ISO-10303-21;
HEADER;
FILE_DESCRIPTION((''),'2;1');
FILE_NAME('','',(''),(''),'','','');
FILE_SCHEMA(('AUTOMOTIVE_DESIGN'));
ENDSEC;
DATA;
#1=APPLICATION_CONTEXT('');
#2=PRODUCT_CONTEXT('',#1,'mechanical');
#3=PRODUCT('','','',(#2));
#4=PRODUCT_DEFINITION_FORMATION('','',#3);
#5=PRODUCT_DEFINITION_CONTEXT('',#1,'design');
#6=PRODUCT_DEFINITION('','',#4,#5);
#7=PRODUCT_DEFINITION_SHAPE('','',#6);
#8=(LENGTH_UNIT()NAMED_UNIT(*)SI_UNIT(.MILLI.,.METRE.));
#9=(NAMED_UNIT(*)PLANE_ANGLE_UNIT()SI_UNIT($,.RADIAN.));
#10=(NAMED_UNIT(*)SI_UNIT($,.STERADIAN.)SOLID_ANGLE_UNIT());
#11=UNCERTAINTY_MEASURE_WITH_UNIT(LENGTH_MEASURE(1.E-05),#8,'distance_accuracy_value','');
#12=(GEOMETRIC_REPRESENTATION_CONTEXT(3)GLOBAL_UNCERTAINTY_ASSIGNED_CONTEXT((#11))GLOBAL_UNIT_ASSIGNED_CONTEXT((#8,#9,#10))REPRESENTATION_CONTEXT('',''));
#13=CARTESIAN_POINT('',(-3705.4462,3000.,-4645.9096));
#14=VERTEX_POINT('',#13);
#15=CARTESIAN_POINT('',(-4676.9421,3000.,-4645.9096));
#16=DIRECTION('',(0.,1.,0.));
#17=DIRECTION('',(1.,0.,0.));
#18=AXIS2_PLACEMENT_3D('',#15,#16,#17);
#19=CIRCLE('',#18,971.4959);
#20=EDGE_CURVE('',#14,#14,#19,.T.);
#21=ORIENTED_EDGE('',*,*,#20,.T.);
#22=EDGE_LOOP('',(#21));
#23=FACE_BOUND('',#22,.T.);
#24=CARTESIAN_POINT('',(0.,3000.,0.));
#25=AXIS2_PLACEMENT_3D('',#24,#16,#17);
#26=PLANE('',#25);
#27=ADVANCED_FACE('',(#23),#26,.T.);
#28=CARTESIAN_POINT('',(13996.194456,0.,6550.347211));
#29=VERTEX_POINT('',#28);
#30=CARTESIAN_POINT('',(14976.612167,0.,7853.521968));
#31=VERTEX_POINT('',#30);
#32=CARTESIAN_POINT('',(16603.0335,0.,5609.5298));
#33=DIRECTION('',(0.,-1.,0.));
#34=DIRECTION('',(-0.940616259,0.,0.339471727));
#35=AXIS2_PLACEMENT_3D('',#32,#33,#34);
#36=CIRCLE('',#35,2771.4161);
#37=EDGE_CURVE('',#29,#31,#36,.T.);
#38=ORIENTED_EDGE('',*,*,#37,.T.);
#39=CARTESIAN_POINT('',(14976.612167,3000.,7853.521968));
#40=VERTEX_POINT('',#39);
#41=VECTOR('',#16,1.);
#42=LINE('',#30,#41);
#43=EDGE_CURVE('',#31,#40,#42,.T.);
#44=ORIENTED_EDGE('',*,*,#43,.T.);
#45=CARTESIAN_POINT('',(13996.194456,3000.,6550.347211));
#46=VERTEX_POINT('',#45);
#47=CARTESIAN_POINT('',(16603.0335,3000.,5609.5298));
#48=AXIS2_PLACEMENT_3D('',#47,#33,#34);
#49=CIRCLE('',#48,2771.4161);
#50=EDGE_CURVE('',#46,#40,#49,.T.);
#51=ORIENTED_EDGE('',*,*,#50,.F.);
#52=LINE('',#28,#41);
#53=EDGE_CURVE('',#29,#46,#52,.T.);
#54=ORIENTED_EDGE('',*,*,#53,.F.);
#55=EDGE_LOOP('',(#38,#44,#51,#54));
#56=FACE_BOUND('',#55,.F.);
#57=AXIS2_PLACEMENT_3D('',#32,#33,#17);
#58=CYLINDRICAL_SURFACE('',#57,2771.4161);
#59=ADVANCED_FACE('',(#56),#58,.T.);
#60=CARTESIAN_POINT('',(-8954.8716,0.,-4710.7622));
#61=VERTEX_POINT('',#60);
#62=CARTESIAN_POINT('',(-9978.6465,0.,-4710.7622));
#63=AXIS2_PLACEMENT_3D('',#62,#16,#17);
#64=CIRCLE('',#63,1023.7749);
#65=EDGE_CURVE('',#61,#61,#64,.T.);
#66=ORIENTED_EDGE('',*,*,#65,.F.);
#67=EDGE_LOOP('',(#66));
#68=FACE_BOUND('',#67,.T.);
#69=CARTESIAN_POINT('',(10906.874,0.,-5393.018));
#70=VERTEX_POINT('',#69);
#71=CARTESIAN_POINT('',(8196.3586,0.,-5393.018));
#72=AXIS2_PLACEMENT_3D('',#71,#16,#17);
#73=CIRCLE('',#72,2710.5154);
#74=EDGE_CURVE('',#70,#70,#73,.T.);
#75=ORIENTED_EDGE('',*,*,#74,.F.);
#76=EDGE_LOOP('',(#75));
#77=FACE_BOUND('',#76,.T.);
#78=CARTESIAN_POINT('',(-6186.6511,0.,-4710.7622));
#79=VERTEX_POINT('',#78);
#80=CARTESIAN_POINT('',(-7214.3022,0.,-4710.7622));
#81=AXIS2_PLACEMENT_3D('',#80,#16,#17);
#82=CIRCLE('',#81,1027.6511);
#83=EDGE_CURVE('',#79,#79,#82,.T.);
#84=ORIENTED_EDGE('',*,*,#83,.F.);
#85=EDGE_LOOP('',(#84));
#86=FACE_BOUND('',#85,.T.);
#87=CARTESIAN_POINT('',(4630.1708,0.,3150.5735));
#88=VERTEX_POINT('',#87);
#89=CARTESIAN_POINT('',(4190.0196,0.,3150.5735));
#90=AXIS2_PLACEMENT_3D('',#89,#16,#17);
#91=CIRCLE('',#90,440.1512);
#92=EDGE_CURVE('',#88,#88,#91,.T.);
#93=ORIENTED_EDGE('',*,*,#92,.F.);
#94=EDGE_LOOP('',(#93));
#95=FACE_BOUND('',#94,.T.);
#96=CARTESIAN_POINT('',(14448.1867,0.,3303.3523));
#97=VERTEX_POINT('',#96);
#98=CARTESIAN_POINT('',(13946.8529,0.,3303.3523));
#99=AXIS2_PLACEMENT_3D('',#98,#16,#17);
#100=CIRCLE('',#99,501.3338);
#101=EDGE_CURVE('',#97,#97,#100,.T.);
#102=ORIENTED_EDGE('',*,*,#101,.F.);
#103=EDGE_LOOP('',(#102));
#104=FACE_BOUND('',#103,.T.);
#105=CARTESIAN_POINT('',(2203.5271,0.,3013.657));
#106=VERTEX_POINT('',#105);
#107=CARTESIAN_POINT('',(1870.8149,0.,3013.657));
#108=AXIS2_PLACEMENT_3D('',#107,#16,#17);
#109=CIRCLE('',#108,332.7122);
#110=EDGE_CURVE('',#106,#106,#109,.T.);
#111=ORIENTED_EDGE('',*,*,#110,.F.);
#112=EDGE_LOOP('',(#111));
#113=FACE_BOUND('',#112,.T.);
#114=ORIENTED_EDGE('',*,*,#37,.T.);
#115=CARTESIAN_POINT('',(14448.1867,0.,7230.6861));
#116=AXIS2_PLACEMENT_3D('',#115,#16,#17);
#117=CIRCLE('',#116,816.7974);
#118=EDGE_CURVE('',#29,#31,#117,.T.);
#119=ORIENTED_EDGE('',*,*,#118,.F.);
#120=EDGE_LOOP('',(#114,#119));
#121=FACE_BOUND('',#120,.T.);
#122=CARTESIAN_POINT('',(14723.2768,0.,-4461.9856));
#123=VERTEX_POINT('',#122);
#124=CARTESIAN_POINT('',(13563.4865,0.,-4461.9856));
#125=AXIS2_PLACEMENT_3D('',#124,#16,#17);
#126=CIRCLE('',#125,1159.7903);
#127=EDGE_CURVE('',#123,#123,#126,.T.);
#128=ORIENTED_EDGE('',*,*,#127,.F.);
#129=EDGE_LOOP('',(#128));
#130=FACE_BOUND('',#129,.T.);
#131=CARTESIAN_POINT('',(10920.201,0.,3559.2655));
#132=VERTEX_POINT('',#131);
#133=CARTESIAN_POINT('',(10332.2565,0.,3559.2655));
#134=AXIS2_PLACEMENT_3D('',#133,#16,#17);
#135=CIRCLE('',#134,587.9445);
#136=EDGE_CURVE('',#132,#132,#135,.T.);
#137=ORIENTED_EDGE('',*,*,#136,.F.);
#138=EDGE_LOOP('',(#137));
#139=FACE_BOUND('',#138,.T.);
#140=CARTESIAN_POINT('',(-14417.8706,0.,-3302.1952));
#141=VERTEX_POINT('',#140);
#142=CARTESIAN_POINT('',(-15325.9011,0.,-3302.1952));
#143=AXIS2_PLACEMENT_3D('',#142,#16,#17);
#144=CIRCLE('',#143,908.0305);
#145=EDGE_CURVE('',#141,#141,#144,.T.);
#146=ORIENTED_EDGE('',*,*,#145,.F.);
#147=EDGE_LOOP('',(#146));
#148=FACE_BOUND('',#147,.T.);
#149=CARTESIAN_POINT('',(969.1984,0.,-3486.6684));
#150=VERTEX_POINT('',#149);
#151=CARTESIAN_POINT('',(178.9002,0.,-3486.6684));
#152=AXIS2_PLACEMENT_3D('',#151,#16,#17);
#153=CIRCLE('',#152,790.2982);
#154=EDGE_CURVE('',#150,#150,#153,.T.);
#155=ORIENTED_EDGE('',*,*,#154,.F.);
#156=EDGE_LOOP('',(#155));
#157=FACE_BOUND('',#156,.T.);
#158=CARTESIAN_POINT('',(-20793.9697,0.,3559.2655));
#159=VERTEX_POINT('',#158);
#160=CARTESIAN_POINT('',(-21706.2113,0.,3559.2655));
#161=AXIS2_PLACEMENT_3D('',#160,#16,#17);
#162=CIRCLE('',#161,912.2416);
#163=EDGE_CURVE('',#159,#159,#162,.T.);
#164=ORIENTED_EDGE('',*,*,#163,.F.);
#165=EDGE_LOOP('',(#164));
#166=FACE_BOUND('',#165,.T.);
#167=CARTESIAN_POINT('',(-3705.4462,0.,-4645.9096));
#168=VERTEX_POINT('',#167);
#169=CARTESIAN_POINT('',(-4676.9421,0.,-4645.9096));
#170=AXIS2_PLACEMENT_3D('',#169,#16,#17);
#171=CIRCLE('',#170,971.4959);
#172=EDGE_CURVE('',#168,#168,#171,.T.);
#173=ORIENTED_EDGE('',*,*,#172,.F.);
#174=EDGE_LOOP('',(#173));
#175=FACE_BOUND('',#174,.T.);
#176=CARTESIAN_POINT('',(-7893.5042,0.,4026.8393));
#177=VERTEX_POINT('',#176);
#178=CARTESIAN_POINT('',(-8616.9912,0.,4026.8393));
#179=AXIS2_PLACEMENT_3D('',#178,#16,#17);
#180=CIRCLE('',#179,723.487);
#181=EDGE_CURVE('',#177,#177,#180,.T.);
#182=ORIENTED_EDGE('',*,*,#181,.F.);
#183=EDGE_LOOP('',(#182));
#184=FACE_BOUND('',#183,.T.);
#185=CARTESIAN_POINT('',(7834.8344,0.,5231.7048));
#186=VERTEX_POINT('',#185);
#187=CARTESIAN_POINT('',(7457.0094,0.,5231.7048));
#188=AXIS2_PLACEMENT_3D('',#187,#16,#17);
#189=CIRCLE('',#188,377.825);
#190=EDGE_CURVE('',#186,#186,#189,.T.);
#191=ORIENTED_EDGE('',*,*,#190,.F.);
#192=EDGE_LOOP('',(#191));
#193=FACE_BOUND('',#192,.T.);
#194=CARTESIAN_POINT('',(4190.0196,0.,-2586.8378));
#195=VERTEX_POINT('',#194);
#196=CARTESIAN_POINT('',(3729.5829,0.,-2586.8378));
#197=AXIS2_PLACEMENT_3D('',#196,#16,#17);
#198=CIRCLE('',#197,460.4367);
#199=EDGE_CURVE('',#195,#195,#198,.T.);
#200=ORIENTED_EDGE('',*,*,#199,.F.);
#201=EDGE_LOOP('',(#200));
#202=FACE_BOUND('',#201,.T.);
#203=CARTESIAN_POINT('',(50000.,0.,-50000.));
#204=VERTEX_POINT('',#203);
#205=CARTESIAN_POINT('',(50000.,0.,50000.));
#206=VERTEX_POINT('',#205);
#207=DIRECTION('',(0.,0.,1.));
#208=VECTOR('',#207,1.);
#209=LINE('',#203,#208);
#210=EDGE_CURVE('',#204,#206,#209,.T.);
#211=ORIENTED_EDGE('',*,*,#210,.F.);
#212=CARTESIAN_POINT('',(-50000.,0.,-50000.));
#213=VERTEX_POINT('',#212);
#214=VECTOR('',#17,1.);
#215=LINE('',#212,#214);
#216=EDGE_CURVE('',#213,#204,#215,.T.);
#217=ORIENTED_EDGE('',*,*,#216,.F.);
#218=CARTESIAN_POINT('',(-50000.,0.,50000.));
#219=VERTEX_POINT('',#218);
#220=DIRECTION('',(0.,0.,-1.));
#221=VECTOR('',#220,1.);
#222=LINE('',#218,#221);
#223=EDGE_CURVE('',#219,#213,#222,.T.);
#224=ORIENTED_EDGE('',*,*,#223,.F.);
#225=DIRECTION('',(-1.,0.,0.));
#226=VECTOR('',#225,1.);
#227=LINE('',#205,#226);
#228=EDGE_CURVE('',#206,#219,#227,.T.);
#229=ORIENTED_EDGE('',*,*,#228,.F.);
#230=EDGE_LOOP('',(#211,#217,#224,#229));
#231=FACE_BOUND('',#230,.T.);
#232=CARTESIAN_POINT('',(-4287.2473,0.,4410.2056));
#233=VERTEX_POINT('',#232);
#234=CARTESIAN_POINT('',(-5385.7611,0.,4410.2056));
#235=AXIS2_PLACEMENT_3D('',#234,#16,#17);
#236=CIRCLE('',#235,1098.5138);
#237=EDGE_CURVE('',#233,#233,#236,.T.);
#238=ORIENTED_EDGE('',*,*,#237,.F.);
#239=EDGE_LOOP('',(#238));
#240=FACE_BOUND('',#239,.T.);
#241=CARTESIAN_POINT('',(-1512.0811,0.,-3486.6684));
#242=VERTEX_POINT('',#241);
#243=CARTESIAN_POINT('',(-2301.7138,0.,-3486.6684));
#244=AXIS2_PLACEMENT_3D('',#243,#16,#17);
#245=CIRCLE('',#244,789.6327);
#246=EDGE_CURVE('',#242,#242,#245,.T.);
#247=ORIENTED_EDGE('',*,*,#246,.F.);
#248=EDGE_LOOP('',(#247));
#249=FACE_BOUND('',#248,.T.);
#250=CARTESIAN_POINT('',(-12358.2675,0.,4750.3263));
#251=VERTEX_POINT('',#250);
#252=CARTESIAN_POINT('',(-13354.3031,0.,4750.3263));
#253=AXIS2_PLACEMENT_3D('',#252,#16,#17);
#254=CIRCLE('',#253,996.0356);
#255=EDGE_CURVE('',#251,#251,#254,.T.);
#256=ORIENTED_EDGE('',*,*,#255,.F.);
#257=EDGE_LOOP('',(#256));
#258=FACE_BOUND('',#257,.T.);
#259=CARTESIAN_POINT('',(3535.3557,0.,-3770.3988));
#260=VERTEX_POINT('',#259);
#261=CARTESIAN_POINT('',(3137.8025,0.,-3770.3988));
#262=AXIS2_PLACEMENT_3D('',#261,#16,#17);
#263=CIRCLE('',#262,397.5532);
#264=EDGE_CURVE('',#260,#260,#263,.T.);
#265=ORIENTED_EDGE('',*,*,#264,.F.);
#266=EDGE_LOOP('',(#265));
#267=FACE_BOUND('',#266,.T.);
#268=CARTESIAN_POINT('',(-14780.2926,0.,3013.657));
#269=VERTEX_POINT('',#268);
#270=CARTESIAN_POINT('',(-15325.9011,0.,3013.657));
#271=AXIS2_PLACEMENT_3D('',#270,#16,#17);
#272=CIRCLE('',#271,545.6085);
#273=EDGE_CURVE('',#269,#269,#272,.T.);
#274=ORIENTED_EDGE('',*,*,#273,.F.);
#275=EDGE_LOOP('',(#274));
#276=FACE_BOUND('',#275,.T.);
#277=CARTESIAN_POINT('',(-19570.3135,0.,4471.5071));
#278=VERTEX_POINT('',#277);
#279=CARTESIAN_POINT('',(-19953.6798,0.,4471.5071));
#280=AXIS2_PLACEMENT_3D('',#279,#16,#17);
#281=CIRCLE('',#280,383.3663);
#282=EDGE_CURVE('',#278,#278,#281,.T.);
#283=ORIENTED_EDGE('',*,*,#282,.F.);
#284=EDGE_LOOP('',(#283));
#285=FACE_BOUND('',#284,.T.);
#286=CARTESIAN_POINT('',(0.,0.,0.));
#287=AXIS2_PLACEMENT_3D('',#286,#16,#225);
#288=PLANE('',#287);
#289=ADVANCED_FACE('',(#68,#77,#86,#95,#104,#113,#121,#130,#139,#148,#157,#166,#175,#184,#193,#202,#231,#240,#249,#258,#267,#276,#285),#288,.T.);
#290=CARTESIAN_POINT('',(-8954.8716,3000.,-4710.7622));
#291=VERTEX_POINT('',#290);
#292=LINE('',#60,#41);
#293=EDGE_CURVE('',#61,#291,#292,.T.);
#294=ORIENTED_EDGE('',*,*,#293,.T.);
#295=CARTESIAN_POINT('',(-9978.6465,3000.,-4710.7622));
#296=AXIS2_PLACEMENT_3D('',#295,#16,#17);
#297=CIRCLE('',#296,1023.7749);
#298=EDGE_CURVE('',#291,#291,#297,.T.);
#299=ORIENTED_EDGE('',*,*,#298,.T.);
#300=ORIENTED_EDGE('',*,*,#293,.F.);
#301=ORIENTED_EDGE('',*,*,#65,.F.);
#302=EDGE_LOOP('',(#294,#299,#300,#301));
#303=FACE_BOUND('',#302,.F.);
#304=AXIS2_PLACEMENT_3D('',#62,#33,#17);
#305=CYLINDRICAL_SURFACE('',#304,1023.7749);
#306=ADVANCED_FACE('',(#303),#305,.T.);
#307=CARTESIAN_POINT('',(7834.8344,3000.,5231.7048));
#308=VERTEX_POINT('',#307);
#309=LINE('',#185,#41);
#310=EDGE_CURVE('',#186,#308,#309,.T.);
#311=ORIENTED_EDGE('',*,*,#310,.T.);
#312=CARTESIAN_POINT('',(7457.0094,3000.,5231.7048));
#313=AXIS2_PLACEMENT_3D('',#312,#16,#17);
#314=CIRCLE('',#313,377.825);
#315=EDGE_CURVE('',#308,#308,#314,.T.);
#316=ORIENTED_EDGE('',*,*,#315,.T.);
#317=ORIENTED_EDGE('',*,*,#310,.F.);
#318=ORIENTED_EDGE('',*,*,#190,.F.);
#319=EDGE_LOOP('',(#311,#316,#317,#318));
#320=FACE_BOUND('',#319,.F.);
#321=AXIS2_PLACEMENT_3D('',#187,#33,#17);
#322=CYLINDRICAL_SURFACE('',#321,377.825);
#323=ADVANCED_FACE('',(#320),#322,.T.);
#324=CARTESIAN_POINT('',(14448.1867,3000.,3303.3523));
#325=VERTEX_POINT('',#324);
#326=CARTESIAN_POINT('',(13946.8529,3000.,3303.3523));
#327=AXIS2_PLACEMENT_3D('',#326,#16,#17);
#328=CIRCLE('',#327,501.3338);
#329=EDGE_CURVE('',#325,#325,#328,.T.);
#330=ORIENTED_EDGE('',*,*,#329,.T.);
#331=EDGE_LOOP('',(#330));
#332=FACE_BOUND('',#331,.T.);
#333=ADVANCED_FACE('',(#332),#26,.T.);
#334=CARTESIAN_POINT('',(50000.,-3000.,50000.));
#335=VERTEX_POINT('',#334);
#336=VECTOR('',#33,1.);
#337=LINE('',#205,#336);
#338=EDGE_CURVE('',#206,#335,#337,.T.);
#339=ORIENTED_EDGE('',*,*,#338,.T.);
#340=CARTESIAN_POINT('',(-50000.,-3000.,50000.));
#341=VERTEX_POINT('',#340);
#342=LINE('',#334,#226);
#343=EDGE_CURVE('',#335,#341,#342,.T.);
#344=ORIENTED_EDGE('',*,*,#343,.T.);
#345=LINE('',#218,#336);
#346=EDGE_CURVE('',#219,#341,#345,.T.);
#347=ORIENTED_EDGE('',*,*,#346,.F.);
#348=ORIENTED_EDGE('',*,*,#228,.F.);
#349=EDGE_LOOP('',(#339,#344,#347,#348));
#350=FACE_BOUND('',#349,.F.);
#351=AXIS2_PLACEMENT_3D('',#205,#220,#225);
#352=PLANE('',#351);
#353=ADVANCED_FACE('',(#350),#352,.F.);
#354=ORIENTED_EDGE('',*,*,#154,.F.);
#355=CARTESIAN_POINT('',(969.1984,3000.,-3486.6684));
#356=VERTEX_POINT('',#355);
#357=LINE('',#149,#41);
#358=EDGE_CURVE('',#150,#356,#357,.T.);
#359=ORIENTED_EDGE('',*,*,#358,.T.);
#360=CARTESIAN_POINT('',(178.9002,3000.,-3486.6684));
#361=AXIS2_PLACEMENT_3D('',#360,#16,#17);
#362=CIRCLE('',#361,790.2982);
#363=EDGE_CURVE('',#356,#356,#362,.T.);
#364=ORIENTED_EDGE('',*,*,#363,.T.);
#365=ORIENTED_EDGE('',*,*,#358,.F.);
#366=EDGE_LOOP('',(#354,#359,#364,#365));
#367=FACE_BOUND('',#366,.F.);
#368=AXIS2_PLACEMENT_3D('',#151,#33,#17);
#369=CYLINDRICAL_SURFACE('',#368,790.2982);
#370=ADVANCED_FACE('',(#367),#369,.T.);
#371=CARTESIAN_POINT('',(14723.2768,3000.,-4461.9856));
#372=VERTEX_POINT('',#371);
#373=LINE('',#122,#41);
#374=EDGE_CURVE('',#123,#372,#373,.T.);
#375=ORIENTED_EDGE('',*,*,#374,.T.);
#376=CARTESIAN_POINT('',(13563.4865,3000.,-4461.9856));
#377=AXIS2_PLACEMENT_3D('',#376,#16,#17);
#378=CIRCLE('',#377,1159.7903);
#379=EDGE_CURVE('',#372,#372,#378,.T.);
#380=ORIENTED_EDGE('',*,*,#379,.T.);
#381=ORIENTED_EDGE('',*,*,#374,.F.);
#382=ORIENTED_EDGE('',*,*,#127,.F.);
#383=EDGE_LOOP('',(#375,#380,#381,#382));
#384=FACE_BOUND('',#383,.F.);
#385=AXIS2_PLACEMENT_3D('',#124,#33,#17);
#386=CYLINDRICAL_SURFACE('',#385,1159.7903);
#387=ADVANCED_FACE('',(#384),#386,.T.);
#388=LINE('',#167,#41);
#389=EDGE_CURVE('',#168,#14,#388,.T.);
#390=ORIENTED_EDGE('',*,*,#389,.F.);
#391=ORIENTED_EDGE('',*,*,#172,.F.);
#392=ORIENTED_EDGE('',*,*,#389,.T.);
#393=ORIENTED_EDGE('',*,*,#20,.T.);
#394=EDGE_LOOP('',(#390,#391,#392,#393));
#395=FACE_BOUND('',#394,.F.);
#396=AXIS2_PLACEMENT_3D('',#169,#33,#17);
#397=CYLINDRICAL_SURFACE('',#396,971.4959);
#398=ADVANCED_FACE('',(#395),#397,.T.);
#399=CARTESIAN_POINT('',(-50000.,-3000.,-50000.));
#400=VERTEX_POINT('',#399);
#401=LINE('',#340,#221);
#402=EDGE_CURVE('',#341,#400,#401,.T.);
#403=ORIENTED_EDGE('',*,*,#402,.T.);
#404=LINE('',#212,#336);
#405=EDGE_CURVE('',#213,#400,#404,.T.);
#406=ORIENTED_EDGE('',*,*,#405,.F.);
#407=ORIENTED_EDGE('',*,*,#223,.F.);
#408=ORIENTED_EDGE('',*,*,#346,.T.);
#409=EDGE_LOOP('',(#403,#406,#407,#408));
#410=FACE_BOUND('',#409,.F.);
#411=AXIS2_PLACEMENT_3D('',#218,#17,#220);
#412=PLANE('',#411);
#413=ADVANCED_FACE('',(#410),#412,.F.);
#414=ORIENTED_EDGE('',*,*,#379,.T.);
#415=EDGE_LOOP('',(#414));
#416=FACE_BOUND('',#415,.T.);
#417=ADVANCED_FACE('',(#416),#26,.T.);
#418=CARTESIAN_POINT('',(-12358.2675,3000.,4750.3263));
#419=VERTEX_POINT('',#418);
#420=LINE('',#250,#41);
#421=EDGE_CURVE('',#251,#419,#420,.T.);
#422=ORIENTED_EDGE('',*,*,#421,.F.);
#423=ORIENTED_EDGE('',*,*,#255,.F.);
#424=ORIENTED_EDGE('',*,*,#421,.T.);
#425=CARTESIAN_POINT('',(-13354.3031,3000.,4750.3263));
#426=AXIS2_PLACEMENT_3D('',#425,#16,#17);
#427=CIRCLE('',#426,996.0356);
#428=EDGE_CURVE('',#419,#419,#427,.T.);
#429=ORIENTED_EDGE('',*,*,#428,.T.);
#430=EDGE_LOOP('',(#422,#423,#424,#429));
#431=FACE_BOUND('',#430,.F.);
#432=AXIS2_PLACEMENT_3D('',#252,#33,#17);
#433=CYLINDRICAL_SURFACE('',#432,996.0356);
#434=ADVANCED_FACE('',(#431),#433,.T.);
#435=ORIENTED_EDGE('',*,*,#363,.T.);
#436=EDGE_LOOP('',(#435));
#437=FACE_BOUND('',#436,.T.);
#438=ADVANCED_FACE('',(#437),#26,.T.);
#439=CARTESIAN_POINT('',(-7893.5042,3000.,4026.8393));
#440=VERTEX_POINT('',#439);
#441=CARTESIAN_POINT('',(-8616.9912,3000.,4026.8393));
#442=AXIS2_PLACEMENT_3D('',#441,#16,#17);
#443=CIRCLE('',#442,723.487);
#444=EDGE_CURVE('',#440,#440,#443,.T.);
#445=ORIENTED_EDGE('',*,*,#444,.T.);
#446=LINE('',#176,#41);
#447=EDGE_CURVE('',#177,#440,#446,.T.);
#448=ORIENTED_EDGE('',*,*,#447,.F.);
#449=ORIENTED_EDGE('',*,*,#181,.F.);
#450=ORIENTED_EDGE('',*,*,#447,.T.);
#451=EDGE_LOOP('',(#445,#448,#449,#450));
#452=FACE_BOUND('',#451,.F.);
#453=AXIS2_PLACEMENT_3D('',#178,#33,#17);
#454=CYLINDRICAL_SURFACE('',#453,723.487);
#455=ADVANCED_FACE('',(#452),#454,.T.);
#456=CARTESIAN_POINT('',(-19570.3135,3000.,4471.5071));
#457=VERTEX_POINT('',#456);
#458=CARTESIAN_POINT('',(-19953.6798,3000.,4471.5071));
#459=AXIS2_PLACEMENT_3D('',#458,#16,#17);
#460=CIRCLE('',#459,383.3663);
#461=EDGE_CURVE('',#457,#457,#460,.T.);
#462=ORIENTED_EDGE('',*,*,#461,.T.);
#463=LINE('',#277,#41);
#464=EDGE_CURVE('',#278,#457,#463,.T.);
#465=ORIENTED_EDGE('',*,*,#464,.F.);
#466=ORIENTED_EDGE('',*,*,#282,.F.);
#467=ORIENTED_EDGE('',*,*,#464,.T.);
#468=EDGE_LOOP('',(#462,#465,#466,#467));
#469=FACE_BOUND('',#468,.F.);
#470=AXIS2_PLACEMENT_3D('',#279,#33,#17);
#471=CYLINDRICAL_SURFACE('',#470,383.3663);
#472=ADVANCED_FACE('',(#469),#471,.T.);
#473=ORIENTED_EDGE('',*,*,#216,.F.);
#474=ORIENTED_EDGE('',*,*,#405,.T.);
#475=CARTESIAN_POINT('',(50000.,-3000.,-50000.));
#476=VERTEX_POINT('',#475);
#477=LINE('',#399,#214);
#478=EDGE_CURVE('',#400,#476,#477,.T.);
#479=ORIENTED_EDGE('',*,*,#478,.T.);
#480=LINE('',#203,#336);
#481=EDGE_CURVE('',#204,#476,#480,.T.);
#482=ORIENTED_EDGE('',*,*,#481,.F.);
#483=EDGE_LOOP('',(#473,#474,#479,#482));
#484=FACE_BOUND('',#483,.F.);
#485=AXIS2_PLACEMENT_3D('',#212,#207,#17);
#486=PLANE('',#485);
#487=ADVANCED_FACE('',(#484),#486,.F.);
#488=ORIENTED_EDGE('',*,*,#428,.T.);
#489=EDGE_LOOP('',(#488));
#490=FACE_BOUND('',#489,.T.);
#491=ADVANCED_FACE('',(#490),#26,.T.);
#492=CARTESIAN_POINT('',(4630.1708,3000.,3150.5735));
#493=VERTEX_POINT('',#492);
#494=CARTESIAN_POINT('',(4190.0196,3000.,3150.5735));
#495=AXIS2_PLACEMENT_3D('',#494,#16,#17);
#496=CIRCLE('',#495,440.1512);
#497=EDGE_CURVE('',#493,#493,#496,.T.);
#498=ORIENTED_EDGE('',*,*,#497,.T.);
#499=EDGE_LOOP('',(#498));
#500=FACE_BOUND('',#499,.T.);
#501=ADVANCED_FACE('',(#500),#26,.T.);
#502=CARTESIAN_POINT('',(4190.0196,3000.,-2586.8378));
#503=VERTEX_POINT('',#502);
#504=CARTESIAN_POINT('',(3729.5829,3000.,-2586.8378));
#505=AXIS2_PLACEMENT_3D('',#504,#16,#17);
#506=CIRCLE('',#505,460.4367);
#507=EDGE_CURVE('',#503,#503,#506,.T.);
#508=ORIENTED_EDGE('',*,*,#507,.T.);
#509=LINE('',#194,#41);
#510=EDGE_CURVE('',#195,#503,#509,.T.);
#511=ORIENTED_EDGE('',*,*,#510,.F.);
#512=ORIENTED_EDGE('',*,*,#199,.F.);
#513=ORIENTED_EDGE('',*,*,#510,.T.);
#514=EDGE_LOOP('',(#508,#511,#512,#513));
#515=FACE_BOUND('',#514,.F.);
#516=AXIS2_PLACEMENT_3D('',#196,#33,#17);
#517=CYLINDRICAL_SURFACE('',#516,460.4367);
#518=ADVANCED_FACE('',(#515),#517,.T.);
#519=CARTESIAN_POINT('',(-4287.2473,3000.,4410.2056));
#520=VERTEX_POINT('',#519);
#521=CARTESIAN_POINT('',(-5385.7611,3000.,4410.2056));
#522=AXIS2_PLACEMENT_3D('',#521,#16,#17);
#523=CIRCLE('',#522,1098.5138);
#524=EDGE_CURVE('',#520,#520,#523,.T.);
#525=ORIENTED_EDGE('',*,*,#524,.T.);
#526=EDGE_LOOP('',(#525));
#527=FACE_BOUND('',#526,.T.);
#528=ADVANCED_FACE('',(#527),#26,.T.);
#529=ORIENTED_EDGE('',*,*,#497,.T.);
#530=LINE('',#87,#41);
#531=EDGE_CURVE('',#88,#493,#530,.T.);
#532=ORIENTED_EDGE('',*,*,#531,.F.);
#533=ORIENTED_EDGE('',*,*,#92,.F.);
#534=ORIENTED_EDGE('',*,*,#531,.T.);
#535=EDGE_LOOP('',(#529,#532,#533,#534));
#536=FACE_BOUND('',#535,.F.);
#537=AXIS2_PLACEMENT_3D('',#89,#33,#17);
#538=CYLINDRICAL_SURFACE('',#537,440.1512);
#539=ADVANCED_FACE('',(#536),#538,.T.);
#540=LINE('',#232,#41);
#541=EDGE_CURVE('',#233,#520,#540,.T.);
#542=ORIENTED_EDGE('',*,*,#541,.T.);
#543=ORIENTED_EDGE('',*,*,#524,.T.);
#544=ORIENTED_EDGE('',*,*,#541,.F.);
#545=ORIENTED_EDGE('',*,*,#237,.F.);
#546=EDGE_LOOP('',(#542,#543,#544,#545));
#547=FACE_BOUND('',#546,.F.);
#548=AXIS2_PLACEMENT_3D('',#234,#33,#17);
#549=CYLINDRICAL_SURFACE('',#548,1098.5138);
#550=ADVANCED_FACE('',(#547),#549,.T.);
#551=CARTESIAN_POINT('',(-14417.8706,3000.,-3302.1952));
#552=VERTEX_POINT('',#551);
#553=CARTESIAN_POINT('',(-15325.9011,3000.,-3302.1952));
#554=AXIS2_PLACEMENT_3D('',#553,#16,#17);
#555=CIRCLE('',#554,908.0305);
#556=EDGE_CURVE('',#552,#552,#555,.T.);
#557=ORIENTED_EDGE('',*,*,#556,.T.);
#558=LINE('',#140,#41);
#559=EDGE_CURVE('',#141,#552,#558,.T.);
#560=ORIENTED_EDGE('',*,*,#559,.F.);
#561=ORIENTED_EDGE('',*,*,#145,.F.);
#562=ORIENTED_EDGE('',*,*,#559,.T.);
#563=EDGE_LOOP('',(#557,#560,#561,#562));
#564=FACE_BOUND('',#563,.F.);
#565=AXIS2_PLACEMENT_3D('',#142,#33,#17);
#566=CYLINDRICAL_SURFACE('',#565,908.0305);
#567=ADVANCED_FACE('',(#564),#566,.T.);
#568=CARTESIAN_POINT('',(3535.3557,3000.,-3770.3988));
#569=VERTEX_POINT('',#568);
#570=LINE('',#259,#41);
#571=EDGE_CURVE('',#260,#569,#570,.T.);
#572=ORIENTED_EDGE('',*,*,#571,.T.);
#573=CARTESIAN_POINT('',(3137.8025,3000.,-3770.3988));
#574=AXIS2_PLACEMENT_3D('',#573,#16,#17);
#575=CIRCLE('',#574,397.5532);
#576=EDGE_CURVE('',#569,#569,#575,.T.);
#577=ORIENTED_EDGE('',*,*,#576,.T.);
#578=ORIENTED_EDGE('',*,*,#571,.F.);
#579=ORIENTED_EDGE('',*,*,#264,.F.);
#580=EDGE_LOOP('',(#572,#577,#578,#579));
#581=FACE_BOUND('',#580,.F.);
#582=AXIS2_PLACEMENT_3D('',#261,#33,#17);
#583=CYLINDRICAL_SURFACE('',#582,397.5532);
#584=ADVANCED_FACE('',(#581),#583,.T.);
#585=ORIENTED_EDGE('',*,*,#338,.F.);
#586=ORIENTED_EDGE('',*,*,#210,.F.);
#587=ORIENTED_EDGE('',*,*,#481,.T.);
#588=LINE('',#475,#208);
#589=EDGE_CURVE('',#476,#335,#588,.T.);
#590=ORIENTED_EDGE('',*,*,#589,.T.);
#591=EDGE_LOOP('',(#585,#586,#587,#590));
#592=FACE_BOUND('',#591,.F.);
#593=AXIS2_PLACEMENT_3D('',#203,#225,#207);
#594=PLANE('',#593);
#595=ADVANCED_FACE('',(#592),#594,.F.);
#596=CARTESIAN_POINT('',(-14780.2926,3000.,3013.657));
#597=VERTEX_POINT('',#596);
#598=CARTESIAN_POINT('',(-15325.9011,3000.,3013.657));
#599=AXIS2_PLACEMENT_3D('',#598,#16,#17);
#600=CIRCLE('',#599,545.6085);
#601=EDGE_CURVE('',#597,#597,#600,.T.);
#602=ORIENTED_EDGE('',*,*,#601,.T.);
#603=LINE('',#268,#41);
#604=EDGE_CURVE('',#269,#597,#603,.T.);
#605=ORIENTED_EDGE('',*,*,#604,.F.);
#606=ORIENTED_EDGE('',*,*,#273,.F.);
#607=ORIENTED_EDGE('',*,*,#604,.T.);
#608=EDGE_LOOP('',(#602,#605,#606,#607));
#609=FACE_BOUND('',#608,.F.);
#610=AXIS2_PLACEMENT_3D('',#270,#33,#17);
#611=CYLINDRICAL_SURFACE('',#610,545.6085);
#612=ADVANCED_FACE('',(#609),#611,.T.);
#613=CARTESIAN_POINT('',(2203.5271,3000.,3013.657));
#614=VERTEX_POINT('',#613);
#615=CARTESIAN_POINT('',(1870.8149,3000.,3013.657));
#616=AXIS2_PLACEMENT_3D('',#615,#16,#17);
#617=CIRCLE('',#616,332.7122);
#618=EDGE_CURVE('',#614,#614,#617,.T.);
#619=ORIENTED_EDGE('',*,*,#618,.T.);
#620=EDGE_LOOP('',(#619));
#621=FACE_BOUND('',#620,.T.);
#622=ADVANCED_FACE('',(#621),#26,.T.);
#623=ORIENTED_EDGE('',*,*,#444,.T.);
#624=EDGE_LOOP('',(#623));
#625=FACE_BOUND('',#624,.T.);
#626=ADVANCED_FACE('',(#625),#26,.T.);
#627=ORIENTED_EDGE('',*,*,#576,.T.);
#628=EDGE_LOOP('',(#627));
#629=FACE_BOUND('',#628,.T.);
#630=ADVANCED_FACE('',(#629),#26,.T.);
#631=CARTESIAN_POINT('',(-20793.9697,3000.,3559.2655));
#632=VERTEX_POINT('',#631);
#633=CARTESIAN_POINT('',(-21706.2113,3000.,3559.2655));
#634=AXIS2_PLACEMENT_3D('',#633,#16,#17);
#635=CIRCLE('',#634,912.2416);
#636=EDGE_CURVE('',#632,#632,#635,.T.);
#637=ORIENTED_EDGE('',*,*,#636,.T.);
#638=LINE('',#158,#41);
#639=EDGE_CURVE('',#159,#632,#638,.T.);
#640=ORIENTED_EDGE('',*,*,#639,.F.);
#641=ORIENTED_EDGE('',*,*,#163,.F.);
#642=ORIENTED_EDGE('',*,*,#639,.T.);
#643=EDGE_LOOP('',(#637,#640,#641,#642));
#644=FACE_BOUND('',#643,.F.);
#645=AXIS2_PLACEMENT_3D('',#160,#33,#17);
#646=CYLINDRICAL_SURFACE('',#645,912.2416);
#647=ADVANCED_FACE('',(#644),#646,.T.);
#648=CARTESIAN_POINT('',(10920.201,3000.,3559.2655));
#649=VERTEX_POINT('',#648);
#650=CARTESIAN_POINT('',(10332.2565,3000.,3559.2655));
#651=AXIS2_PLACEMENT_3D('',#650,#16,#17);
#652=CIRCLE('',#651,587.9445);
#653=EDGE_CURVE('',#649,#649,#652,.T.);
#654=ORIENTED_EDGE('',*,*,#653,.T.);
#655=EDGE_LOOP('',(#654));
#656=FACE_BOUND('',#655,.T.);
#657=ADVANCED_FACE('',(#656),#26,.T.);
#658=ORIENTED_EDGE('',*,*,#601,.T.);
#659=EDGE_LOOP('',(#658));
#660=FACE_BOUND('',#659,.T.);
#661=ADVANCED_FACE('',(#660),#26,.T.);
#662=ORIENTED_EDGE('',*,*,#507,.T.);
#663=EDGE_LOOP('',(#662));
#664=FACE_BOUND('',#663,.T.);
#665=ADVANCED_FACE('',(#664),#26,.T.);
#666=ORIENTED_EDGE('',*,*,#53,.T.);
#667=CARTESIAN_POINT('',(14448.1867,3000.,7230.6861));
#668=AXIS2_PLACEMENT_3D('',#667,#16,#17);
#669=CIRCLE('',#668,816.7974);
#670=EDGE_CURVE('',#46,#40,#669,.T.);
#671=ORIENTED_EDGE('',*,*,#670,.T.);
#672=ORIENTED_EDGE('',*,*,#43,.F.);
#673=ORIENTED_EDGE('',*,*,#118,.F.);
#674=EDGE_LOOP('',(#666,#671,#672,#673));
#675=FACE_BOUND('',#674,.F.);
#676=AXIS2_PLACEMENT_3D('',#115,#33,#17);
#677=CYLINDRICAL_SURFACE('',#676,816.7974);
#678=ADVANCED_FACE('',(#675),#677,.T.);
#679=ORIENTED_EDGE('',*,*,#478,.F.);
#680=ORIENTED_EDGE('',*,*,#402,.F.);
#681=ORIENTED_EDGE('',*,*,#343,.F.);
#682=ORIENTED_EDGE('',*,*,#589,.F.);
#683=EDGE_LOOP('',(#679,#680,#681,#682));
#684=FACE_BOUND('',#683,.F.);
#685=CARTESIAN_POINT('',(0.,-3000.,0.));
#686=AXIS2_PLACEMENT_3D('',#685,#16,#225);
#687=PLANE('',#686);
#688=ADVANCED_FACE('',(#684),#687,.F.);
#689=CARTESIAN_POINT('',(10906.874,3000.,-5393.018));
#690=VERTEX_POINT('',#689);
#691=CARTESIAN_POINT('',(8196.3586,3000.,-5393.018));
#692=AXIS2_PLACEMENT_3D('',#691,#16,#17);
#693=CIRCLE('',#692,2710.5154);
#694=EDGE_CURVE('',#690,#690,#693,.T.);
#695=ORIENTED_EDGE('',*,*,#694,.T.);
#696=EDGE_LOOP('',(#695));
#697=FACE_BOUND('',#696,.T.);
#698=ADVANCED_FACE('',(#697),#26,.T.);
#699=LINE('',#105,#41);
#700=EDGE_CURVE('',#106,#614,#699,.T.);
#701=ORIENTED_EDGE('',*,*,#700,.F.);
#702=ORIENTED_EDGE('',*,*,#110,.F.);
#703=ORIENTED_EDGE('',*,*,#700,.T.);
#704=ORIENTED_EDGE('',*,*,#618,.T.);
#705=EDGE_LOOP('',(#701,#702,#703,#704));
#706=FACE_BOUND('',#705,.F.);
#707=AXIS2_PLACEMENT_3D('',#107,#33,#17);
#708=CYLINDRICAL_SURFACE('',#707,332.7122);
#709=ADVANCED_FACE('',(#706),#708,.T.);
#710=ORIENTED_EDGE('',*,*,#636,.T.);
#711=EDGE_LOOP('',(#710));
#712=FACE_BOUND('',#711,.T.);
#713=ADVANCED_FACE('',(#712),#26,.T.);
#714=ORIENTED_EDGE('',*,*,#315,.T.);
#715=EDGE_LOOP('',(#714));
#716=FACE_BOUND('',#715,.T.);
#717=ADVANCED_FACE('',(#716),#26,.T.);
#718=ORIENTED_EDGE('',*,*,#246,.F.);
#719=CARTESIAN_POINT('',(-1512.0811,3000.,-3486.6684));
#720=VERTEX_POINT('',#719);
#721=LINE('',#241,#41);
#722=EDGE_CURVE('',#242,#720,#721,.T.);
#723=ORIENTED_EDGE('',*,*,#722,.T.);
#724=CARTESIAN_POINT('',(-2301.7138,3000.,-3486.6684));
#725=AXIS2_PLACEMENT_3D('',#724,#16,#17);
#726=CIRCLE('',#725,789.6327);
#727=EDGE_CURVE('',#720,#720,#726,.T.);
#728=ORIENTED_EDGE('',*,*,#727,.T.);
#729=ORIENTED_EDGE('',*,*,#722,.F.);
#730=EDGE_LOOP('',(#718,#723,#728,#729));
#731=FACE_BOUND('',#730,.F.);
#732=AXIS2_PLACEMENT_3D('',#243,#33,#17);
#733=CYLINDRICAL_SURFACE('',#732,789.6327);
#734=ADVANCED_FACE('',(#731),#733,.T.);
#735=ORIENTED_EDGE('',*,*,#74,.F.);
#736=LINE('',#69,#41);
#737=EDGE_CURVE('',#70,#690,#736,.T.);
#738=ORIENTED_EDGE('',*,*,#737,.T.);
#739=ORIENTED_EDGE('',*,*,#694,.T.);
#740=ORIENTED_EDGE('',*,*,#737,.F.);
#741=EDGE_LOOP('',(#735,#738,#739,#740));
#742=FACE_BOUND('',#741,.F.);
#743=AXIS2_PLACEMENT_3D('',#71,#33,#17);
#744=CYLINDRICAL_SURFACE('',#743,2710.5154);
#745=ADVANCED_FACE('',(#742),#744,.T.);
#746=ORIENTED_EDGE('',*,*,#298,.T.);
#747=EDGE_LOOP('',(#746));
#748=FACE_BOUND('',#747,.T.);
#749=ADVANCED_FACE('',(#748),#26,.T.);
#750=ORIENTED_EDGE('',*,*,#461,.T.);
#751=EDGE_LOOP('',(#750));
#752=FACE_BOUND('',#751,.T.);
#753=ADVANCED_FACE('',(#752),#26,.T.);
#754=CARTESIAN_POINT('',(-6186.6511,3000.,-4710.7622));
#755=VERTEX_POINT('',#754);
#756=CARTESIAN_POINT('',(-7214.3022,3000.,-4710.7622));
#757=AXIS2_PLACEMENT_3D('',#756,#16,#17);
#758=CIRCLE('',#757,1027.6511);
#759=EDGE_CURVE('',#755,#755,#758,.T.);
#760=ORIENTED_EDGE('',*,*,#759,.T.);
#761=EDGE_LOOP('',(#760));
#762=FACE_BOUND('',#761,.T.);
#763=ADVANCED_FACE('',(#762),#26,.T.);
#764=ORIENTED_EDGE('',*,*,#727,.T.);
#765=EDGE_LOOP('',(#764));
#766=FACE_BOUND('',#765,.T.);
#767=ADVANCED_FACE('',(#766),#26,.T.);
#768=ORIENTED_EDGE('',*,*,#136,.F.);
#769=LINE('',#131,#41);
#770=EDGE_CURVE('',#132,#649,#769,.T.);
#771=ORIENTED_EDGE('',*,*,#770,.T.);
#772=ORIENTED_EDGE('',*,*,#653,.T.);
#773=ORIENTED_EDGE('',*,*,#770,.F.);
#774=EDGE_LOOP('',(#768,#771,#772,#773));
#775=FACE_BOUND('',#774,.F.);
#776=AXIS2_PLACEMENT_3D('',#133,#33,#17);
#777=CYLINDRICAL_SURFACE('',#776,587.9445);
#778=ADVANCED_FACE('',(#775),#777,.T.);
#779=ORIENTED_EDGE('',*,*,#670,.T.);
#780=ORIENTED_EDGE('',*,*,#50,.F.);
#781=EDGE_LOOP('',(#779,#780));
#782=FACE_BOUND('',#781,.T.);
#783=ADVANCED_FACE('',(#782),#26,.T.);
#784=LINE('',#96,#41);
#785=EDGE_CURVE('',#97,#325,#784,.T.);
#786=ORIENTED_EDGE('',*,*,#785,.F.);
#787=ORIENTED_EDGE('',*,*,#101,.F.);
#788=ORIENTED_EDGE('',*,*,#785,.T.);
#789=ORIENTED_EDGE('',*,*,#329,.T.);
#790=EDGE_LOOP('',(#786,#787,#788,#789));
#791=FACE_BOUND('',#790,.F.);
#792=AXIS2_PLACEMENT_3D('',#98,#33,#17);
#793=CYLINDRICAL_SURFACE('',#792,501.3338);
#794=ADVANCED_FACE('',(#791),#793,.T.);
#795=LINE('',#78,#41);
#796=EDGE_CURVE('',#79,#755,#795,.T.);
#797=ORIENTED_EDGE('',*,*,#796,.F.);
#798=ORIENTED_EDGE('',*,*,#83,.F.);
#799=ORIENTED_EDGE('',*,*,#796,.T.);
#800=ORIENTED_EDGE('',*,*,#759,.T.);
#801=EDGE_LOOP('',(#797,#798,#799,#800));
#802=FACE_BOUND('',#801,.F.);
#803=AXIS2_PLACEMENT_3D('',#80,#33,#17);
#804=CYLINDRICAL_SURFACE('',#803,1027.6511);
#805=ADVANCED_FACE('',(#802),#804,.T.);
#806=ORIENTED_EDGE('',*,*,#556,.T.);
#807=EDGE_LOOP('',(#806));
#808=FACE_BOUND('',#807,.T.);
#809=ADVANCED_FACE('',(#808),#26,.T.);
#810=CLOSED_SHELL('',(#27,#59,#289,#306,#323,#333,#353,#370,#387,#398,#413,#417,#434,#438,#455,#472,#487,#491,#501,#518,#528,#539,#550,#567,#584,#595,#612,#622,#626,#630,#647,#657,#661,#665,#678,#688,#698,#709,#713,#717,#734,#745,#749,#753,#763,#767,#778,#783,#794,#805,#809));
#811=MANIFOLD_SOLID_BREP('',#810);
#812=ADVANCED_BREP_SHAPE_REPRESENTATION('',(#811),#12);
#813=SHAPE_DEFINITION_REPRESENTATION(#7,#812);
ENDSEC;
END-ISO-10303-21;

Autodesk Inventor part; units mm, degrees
ref_plane "YZ Plane" through (0, 0, 0) normal (1, 0, 0) x (0, 1, 0)
ref_plane "XZ Plane" through (0, 0, 0) normal (0, 1, 0) x (-1, 0, 0)
ref_plane "XY Plane" through (0, 0, 0) normal (0, 0, 1) x (1, 0, 0)
sketch "Sketch1" plane through (0, 0, 0) normal (0, 1, 0) x (-1, 0, 0)
  line L0 (-50000, 50000) -> (50000, 50000)
  line L1 (50000, 50000) -> (50000, -50000)
  line L2 (50000, -50000) -> (-50000, -50000)
  line L3 (-50000, -50000) -> (-50000, 50000)
  line L4 (-50000, 50000) -> (50000, -50000) construction
  line L5 (50000, 50000) -> (-50000, -50000) construction
  point P0 (0, 0)
  dimension "d0" = 100000
  dimension "d1" = 100000
extrude "Extrusion1" add sketch "Sketch1" against normal blind 3000
sketch "Sketch2" plane through (0, 0, 0) normal (0, 1, 0) x (1, 0, 0)
  line L0 (50000, 50000) -> (-50000, 50000) projected
  line L1 (-50000, 50000) -> (-50000, -50000) projected
  line L2 (-50000, -50000) -> (50000, -50000) projected
  line L3 (50000, -50000) -> (50000, 50000) projected
  line L4 (50000, 50000) -> (50000, -50000) projected
  line L5 (-50000, -2000) -> (50000, -2000)
  line L6 (50000, -2000) -> (50000, 2000)
  line L7 (50000, 2000) -> (-50000, 2000)
  line L8 (-50000, 2000) -> (-50000, -2000)
  line L9 (-50000, -2000) -> (50000, 2000) construction
  line L10 (50000, -2000) -> (-50000, 2000) construction
  line L11 (5190.5361, 8455.2241) -> (11345.2122, 8455.2241)
  line L12 (11345.2122, 8455.2241) -> (11345.2122, 2832.4339)
  line L13 (11345.2122, 2832.4339) -> (5190.5361, 2832.4339)
  line L14 (5190.5361, 2832.4339) -> (5190.5361, 8455.2241)
  line L15 (5190.5361, 8455.2241) -> (11345.2122, 2832.4339) construction
  line L16 (11345.2122, 8455.2241) -> (5190.5361, 2832.4339) construction
  line L17 (13548.7384, -7995.2366) -> (20995.1366, -7995.2366)
  line L18 (20995.1366, -7995.2366) -> (20995.1366, -2828.3483)
  line L19 (20995.1366, -2828.3483) -> (13548.7384, -2828.3483)
  line L20 (13548.7384, -2828.3483) -> (13548.7384, -7995.2366)
  line L21 (13548.7384, -7995.2366) -> (20995.1366, -2828.3483) construction
  line L22 (20995.1366, -7995.2366) -> (13548.7384, -2828.3483) construction
  line L23 (593.5251, -2562.4055) -> (4772.6262, -2562.4055)
  line L24 (4772.6262, -2562.4055) -> (4772.6262, -3778.1439)
  line L25 (4772.6262, -3778.1439) -> (593.5251, -3778.1439)
  line L26 (593.5251, -3778.1439) -> (593.5251, -2562.4055)
  line L27 (593.5251, -2562.4055) -> (4772.6262, -3778.1439) construction
  line L28 (4772.6262, -2562.4055) -> (593.5251, -3778.1439) construction
  line L29 (-10538.0803, 5605.837) -> (-4079.4695, 5605.837)
  line L30 (-4079.4695, 5605.837) -> (-4079.4695, 3706.2457)
  line L31 (-4079.4695, 3706.2457) -> (-10538.0803, 3706.2457)
  line L32 (-10538.0803, 3706.2457) -> (-10538.0803, 5605.837)
  line L33 (-10538.0803, 5605.837) -> (-4079.4695, 3706.2457) construction
  line L34 (-4079.4695, 5605.837) -> (-10538.0803, 3706.2457) construction
  line L35 (-3357.6248, 4314.115) -> (1581.3128, 4314.115)
  line L36 (1581.3128, 4314.115) -> (1581.3128, 2642.4746)
  line L37 (1581.3128, 2642.4746) -> (-3357.6248, 2642.4746)
  line L38 (-3357.6248, 2642.4746) -> (-3357.6248, 4314.115)
  line L39 (-3357.6248, 4314.115) -> (1581.3128, 2642.4746) construction
  line L40 (1581.3128, 4314.115) -> (-3357.6248, 2642.4746) construction
  line L41 (-9040.7205, -3304.0821) -> (-4779.0471, -3304.0821)
  line L42 (-4779.0471, -3304.0821) -> (-4779.0471, -6275.5798)
  line L43 (-4779.0471, -6275.5798) -> (-9040.7205, -6275.5798)
  line L44 (-9040.7205, -6275.5798) -> (-9040.7205, -3304.0821)
  line L45 (-9040.7205, -3304.0821) -> (-4779.0471, -6275.5798) construction
  line L46 (-4779.0471, -3304.0821) -> (-9040.7205, -6275.5798) construction
  line L47 (12978.8612, 2832.4339) -> (15790.2565, 4086.164)
  line L48 (15790.2565, 4086.164) -> (14919.446, 6038.8907)
  line L49 (14919.446, 6038.8907) -> (12108.0508, 4785.1606)
  line L50 (12108.0508, 4785.1606) -> (12978.8612, 2832.4339)
  line L51 (7237.4094, -5991.9062) -> (11076.909, -4432.894)
  line L52 (11076.909, -4432.894) -> (10571.8855, -3189.1337)
  line L53 (10571.8855, -3189.1337) -> (6732.3859, -4748.1459)
  line L54 (6732.3859, -4748.1459) -> (7237.4094, -5991.9062)
  line L55 (-16072.161, 3808.7972) -> (-15391.3811, 2832.4339)
  line L56 (-15391.3811, 2832.4339) -> (-14124.812, 3715.5628)
  line L57 (-14124.812, 3715.5628) -> (-14805.5919, 4691.9262)
  line L58 (-14805.5919, 4691.9262) -> (-16072.161, 3808.7972)
  line L59 (-23491.5084, -4748.1459) -> (-20999.8327, -7024.4914)
  line L60 (-20999.8327, -7024.4914) -> (-18908.6968, -4735.5451)
  line L61 (-18908.6968, -4735.5451) -> (-21400.3724, -2459.1996)
  line L62 (-21400.3724, -2459.1996) -> (-23491.5084, -4748.1459)
  line L63 (-16105.7388, -3167.2582) -> (-12909.355, -5395.9713)
  line L64 (-12909.355, -5395.9713) -> (-12180.8401, -4351.1472)
  line L65 (-12180.8401, -4351.1472) -> (-15377.224, -2122.4342)
  line L66 (-15377.224, -2122.4342) -> (-16105.7388, -3167.2582)
  line L67 (2445.7903, 4086.164) -> (3479.5334, 2000)
  line L68 (3479.5334, 2000) -> (4246.1072, 2379.8553)
  line L69 (4246.1072, 2379.8553) -> (3212.3641, 4466.0192)
  line L70 (3212.3641, 4466.0192) -> (2445.7903, 4086.164)
  point P0 (0, 0)
  point P1 (8267.8742, 5643.829)
  point P2 (17271.9375, -5411.7924)
  point P3 (2683.0756, -3170.2747)
  point P4 (-7308.7749, 4656.0414)
  point P5 (-888.156, 3478.2948)
  point P6 (-6909.8838, -4789.831)
  dimension "d4" = 4000
extrude "Extrusion2" add sketch "Sketch2" along normal blind 3000 contours L67 L70 L69 L68 | L11 L12 L13 L14 | L20 L19 L18 L17 | L23 L24 L25 L26 | L29 L30 L31 L32 | L35 L36 L37 L38 | L41 L42 L43 L44 | L50 L49 L48 L47 | L54 L53 L52 L51 | L58 L57 L56 L55 | L62 L61 L60 L59 | L66 L65 L64 L63
fillet "Fillet1" [suppressed]
sketch "Sketch3" plane through (0, 0, 0) normal (0, 1, 0) x (1, 0, 0)
  line L0 (-9040.7205, -6275.5798) -> (-9040.7205, -3304.0821) projected
  line L1 (-9040.7205, -3304.0821) -> (-4779.0471, -3304.0821) projected
  line L2 (-4779.0471, -3304.0821) -> (-4779.0471, -6275.5798) projected
  line L3 (-4779.0471, -6275.5798) -> (-9040.7205, -6275.5798) projected
  line L4 (593.5251, -3778.1439) -> (593.5251, -2562.4055) projected
  line L5 (593.5251, -2562.4055) -> (4772.6262, -2562.4055) projected
  line L6 (4772.6262, -2562.4055) -> (4772.6262, -3778.1439) projected
  line L7 (4772.6262, -3778.1439) -> (593.5251, -3778.1439) projected
  line L8 (15790.2565, 4086.164) -> (12978.8612, 2832.4339) projected
  line L9 (12978.8612, 2832.4339) -> (12108.0508, 4785.1606) projected
  line L10 (12108.0508, 4785.1606) -> (14919.446, 6038.8907) projected
  line L11 (14919.446, 6038.8907) -> (15790.2565, 4086.164) projected
  line L12 (5190.5361, 2832.4339) -> (5190.5361, 8455.2241) projected
  line L13 (5190.5361, 8455.2241) -> (11345.2122, 8455.2241) projected
  line L14 (11345.2122, 8455.2241) -> (11345.2122, 2832.4339) projected
  line L15 (11345.2122, 2832.4339) -> (5190.5361, 2832.4339) projected
  line L16 (-3357.6248, 2642.4746) -> (-3357.6248, 4314.115) projected
  line L17 (-3357.6248, 4314.115) -> (1581.3128, 4314.115) projected
  line L18 (1581.3128, 4314.115) -> (1581.3128, 2642.4746) projected
  line L19 (1581.3128, 2642.4746) -> (-3357.6248, 2642.4746) projected
  line L20 (-12909.355, -5395.9713) -> (-16105.7388, -3167.2582) projected
  line L21 (-16105.7388, -3167.2582) -> (-15377.224, -2122.4342) projected
  line L22 (-15377.224, -2122.4342) -> (-12180.8401, -4351.1472) projected
  line L23 (-12180.8401, -4351.1472) -> (-12909.355, -5395.9713) projected
  line L24 (-15391.3811, 2832.4339) -> (-16072.161, 3808.7972) projected
  line L25 (-16072.161, 3808.7972) -> (-14805.5919, 4691.9262) projected
  line L26 (-14805.5919, 4691.9262) -> (-14124.812, 3715.5628) projected
  line L27 (-14124.812, 3715.5628) -> (-15391.3811, 2832.4339) projected
  line L28 (11076.909, -4432.894) -> (7237.4094, -5991.9062) projected
  line L29 (7237.4094, -5991.9062) -> (6732.3859, -4748.1459) projected
  line L30 (6732.3859, -4748.1459) -> (10571.8855, -3189.1337) projected
  line L31 (10571.8855, -3189.1337) -> (11076.909, -4432.894) projected
  line L32 (20995.1366, -7995.2366) -> (13548.7384, -7995.2366) projected
  line L33 (13548.7384, -7995.2366) -> (13548.7384, -2828.3483) projected
  line L34 (13548.7384, -2828.3483) -> (20995.1366, -2828.3483) projected
  line L35 (20995.1366, -2828.3483) -> (20995.1366, -7995.2366) projected
  line L36 (2445.7903, 4086.164) -> (3212.3641, 4466.0192) projected
  line L37 (3212.3641, 4466.0192) -> (4246.1072, 2379.8553) projected
  line L38 (4246.1072, 2379.8553) -> (3479.5334, 2000) projected
  line L39 (3479.5334, 2000) -> (2445.7903, 4086.164) projected
  line L40 (-10538.0803, 3706.2457) -> (-10538.0803, 5605.837) projected
  line L41 (-10538.0803, 5605.837) -> (-4079.4695, 5605.837) projected
  line L42 (-4079.4695, 5605.837) -> (-4079.4695, 3706.2457) projected
  line L43 (-4079.4695, 3706.2457) -> (-10538.0803, 3706.2457) projected
  line L44 (-20999.8327, -7024.4914) -> (-23491.5084, -4748.1459) projected
  line L45 (-23491.5084, -4748.1459) -> (-21400.3724, -2459.1996) projected
  line L46 (-21400.3724, -2459.1996) -> (-18908.6968, -4735.5451) projected
  line L47 (-18908.6968, -4735.5451) -> (-20999.8327, -7024.4914) projected
  line L48 (50000, 50000) -> (-50000, 50000) projected
  line L49 (-50000, 50000) -> (-50000, -50000) projected
  line L50 (-50000, -50000) -> (50000, -50000) projected
  line L51 (50000, -50000) -> (50000, 50000) projected
  circle A0 centre (-21206.9989, -4735.5451) radius 2507.8736
  circle A1 centre (-14179.4153, -3811.0138) radius 1948.3346
  line L52 (-15377.224, -2122.4342) -> (-16105.7388, -3167.2582) projected
  circle A2 centre (-15130.9909, 3808.7972) radius 991.1752
  line L53 (-10538.0803, 3706.2457) -> (-10538.0803, 5605.837) projected
  circle A3 centre (-7308.7749, 7370.1362) radius 4883.9028
  line L54 (1581.3128, 2642.4746) -> (-3357.6248, 2642.4746) projected
  circle A4 centre (-888.156, 6827.5495) radius 4859.3341
  line L55 (4246.1072, 2379.8553) -> (3479.5334, 2000) projected
  circle A5 centre (3345.9488, 3233.0096) radius 1240.2248
  line L56 (5190.5361, 2832.4339) -> (5190.5361, 8455.2241) projected
  circle A6 centre (8267.8742, 8184.0163) radius 6173.2847
  circle A7 centre (14033.4063, 4473.2344) radius 1950.4594
  line L57 (10571.8855, -3189.1337) -> (6732.3859, -4748.1459) projected
  circle A8 centre (8880.1815, -4432.894) radius 2099.7148
  line L58 (4772.6262, -2562.4055) -> (4772.6262, -3778.1439) projected
  circle A9 centre (2683.0756, -3170.2747) radius 2176.1724
  circle A10 centre (-6909.8838, -4789.831) radius 2597.6749
  line L59 (13548.7384, -7995.2366) -> (13548.7384, -2828.3483) projected
  circle A11 centre (16975.0214, -4873.5592) radius 3990.2761
  point P0 (0, 0)
  point P1 (12325.3726, 3531.4739)
  point P2 (14183.1434, 6417.9376)
  point P3 (-16034.8819, -3216.664)
  point P4 (-12980.2119, -5346.5655)
  point P5 (-12287.5612, -4276.7348)
  point P6 (-15270.5029, -2196.8466)
extrude "Extrusion3" [suppressed]
sketch "Sketch4" plane through (0, 0, 0) normal (0, 1, 0) x (1, 0, 0)
  line L0 (50000, 50000) -> (-50000, 50000) projected
  line L1 (-50000, 50000) -> (-50000, -50000) projected
  line L2 (-50000, -50000) -> (50000, -50000) projected
  line L3 (50000, -50000) -> (50000, 50000) projected
  line L4 (11076.909, -4432.894) -> (7237.4094, -5991.9062) projected
  line L5 (7237.4094, -5991.9062) -> (6732.3859, -4748.1459) projected
  line L6 (6732.3859, -4748.1459) -> (10571.8855, -3189.1337) projected
  line L7 (10571.8855, -3189.1337) -> (11076.909, -4432.894) projected
  line L8 (-10538.0803, 3706.2457) -> (-10538.0803, 5605.837) projected
  line L9 (-10538.0803, 5605.837) -> (-4079.4695, 5605.837) projected
  line L10 (-14805.5919, 4691.9262) -> (-14124.812, 3715.5628) projected
  line L11 (-14124.812, 3715.5628) -> (-15391.3811, 2832.4339) projected
  line L12 (-15391.3811, 2832.4339) -> (-16072.161, 3808.7972) projected
  line L13 (593.5251, -3778.1439) -> (593.5251, -2562.4055) projected
  line L14 (4772.6262, -2562.4055) -> (4772.6262, -3778.1439) projected
  line L15 (20995.1366, -7995.2366) -> (13548.7384, -7995.2366) projected
  line L16 (13548.7384, -7995.2366) -> (13548.7384, -2828.3483) projected
  line L17 (13548.7384, -2828.3483) -> (20995.1366, -2828.3483) projected
  line L18 (20995.1366, -2828.3483) -> (20995.1366, -7995.2366) projected
  line L19 (-12909.355, -5395.9713) -> (-16105.7388, -3167.2582) projected
  line L20 (-16105.7388, -3167.2582) -> (-15377.224, -2122.4342) projected
  line L21 (-15377.224, -2122.4342) -> (-12180.8401, -4351.1472) projected
  line L22 (-12180.8401, -4351.1472) -> (-12909.355, -5395.9713) projected
  circle A0 centre (-4095.3087, 1822.3221) radius 119.7331
  circle A1 centre (-3557.0154, -1685.8651) radius 153.3297
  circle A2 centre (1083.4441, 1432.5236) radius 98.3053
  circle A3 centre (5092.8011, 1785.6866) radius 131.4219
  circle A4 centre (5747.1243, -1847.542) radius 169.4608
  circle A5 centre (9343.4621, 1432.5236) radius 127.5966
  circle A6 centre (-7082.9402, 1822.3221) radius 106.718
  circle A7 centre (-7308.7749, -1847.542) radius 87.1079
  circle A8 centre (-10330.2163, 2528.7629) radius 78.0049
  circle A9 centre (-11168.7148, -2334.5281) radius 88.8954
  circle A10 centre (-13446.3785, 2742.5645) radius 100.7642
  line L23 (593.5251, -2562.4055) -> (4772.6262, -2562.4055) projected
  line L24 (4772.6262, -3778.1439) -> (593.5251, -3778.1439) projected
  line L25 (-16072.161, 3808.7972) -> (-14805.5919, 4691.9262) projected
  line L26 (-4079.4695, 5605.837) -> (-4079.4695, 3706.2457) projected
  line L27 (-4079.4695, 3706.2457) -> (-10538.0803, 3706.2457) projected
  point P0 (0, 0)
extrude "Extrusion4" [suppressed]
sketch "Sketch5" plane through (0, 0, 0) normal (0, 1, 0) x (1, 0, 0)
  line L0 (-9040.7205, -6275.5798) -> (-9040.7205, -3304.0821) projected
  line L1 (-9040.7205, -3304.0821) -> (-4779.0471, -3304.0821) projected
  line L2 (-4779.0471, -3304.0821) -> (-4779.0471, -6275.5798) projected
  line L3 (-4779.0471, -6275.5798) -> (-9040.7205, -6275.5798) projected
  line L4 (593.5251, -3778.1439) -> (593.5251, -2562.4055) projected
  line L5 (593.5251, -2562.4055) -> (4772.6262, -2562.4055) projected
  line L6 (4772.6262, -2562.4055) -> (4772.6262, -3778.1439) projected
  line L7 (4772.6262, -3778.1439) -> (593.5251, -3778.1439) projected
  line L8 (15790.2565, 4086.164) -> (12978.8612, 2832.4339) projected
  line L9 (12978.8612, 2832.4339) -> (12108.0508, 4785.1606) projected
  line L10 (12108.0508, 4785.1606) -> (14919.446, 6038.8907) projected
  line L11 (14919.446, 6038.8907) -> (15790.2565, 4086.164) projected
  line L12 (5190.5361, 2832.4339) -> (5190.5361, 8455.2241) projected
  line L13 (5190.5361, 8455.2241) -> (11345.2122, 8455.2241) projected
  line L14 (11345.2122, 8455.2241) -> (11345.2122, 2832.4339) projected
  line L15 (11345.2122, 2832.4339) -> (5190.5361, 2832.4339) projected
  line L16 (-3357.6248, 2642.4746) -> (-3357.6248, 4314.115) projected
  line L17 (-3357.6248, 4314.115) -> (1581.3128, 4314.115) projected
  line L18 (1581.3128, 4314.115) -> (1581.3128, 2642.4746) projected
  line L19 (1581.3128, 2642.4746) -> (-3357.6248, 2642.4746) projected
  line L20 (-12909.355, -5395.9713) -> (-16105.7388, -3167.2582) projected
  line L21 (-16105.7388, -3167.2582) -> (-15377.224, -2122.4342) projected
  line L22 (-15377.224, -2122.4342) -> (-12180.8401, -4351.1472) projected
  line L23 (-12180.8401, -4351.1472) -> (-12909.355, -5395.9713) projected
  line L24 (-15391.3811, 2832.4339) -> (-16072.161, 3808.7972) projected
  line L25 (-16072.161, 3808.7972) -> (-14805.5919, 4691.9262) projected
  line L26 (-14805.5919, 4691.9262) -> (-14124.812, 3715.5628) projected
  line L27 (-14124.812, 3715.5628) -> (-15391.3811, 2832.4339) projected
  line L28 (11076.909, -4432.894) -> (7237.4094, -5991.9062) projected
  line L29 (7237.4094, -5991.9062) -> (6732.3859, -4748.1459) projected
  line L30 (6732.3859, -4748.1459) -> (10571.8855, -3189.1337) projected
  line L31 (10571.8855, -3189.1337) -> (11076.909, -4432.894) projected
  line L32 (20995.1366, -7995.2366) -> (13548.7384, -7995.2366) projected
  line L33 (13548.7384, -7995.2366) -> (13548.7384, -2828.3483) projected
  line L34 (13548.7384, -2828.3483) -> (20995.1366, -2828.3483) projected
  line L35 (20995.1366, -2828.3483) -> (20995.1366, -7995.2366) projected
  line L36 (2445.7903, 4086.164) -> (3212.3641, 4466.0192) projected
  line L37 (3212.3641, 4466.0192) -> (4246.1072, 2379.8553) projected
  line L38 (4246.1072, 2379.8553) -> (3479.5334, 2000) projected
  line L39 (3479.5334, 2000) -> (2445.7903, 4086.164) projected
  line L40 (-10538.0803, 3706.2457) -> (-10538.0803, 5605.837) projected
  line L41 (-10538.0803, 5605.837) -> (-4079.4695, 5605.837) projected
  line L42 (-4079.4695, 5605.837) -> (-4079.4695, 3706.2457) projected
  line L43 (-4079.4695, 3706.2457) -> (-10538.0803, 3706.2457) projected
  line L44 (-20999.8327, -7024.4914) -> (-23491.5084, -4748.1459) projected
  line L45 (-23491.5084, -4748.1459) -> (-21400.3724, -2459.1996) projected
  line L46 (-21400.3724, -2459.1996) -> (-18908.6968, -4735.5451) projected
  line L47 (-18908.6968, -4735.5451) -> (-20999.8327, -7024.4914) projected
  line L48 (50000, 50000) -> (-50000, 50000) projected
  line L49 (-50000, 50000) -> (-50000, -50000) projected
  line L50 (-50000, -50000) -> (50000, -50000) projected
  line L51 (50000, -50000) -> (50000, 50000) projected
  point P0 (0, 0)
sketch "Sketch6" plane through (0, 0, 0) normal (0, 1, 0) x (1, 0, 0)
  line L0 (-50000, 50000) -> (50000, 50000) projected
  line L1 (50000, 50000) -> (50000, -50000) projected
  line L2 (50000, -50000) -> (-50000, -50000) projected
  line L3 (-50000, -50000) -> (-50000, 50000) projected
  point P0 (0, 0)
extrude "Extrusion5" cut sketch "Sketch6" along normal through all
sketch "Sketch7" plane through (0, 0, 0) normal (0, 1, 0) x (1, 0, 0)
  circle A0 centre (-9978.6465, 4710.7622) radius 1023.7749
  circle A1 centre (-7214.3022, 4710.7622) radius 1027.6511
  circle A2 centre (-4676.9421, 4645.9096) radius 971.4959
  circle A3 centre (-2301.7138, 3486.6684) radius 789.6327
  circle A4 centre (178.9002, 3486.6684) radius 790.2982
  circle A5 centre (3137.8025, 3770.3988) radius 397.5532
  circle A6 centre (3729.5829, 2586.8378) radius 460.4367
  circle A7 centre (8196.3586, 5393.018) radius 2710.5154
  circle A8 centre (13563.4865, 4461.9856) radius 1159.7903
  circle A9 centre (4190.0196, -3150.5735) radius 440.1512
  circle A10 centre (1870.8149, -3013.657) radius 332.7122
  circle A11 centre (-5385.7611, -4410.2056) radius 1098.5138
  circle A12 centre (-8616.9912, -4026.8393) radius 723.487
  circle A13 centre (-15325.9011, -3013.657) radius 545.6085
  circle A14 centre (-13354.3031, -4750.3263) radius 996.0356
  circle A15 centre (-15325.9011, 3302.1952) radius 908.0305
  circle A16 centre (-21706.2113, -3559.2655) radius 912.2416
  circle A17 centre (-19953.6798, -4471.5071) radius 383.3663
  circle A18 centre (7457.0094, -5231.7048) radius 377.825
  circle A19 centre (10332.2565, -3559.2655) radius 587.9445
  circle A20 centre (13946.8529, -3303.3523) radius 501.3338
  circle A21 centre (14448.1867, -7230.6861) radius 816.7974
  circle A22 centre (16603.0335, -5609.5298) radius 2771.4161
  point P0 (0, 0)
  point P1 (14976.6122, -7853.522)
  point P2 (13996.1945, -6550.3472)
extrude "Extrusion6" add sketch "Sketch7" along normal blind 3000
properties part number "scene7"
